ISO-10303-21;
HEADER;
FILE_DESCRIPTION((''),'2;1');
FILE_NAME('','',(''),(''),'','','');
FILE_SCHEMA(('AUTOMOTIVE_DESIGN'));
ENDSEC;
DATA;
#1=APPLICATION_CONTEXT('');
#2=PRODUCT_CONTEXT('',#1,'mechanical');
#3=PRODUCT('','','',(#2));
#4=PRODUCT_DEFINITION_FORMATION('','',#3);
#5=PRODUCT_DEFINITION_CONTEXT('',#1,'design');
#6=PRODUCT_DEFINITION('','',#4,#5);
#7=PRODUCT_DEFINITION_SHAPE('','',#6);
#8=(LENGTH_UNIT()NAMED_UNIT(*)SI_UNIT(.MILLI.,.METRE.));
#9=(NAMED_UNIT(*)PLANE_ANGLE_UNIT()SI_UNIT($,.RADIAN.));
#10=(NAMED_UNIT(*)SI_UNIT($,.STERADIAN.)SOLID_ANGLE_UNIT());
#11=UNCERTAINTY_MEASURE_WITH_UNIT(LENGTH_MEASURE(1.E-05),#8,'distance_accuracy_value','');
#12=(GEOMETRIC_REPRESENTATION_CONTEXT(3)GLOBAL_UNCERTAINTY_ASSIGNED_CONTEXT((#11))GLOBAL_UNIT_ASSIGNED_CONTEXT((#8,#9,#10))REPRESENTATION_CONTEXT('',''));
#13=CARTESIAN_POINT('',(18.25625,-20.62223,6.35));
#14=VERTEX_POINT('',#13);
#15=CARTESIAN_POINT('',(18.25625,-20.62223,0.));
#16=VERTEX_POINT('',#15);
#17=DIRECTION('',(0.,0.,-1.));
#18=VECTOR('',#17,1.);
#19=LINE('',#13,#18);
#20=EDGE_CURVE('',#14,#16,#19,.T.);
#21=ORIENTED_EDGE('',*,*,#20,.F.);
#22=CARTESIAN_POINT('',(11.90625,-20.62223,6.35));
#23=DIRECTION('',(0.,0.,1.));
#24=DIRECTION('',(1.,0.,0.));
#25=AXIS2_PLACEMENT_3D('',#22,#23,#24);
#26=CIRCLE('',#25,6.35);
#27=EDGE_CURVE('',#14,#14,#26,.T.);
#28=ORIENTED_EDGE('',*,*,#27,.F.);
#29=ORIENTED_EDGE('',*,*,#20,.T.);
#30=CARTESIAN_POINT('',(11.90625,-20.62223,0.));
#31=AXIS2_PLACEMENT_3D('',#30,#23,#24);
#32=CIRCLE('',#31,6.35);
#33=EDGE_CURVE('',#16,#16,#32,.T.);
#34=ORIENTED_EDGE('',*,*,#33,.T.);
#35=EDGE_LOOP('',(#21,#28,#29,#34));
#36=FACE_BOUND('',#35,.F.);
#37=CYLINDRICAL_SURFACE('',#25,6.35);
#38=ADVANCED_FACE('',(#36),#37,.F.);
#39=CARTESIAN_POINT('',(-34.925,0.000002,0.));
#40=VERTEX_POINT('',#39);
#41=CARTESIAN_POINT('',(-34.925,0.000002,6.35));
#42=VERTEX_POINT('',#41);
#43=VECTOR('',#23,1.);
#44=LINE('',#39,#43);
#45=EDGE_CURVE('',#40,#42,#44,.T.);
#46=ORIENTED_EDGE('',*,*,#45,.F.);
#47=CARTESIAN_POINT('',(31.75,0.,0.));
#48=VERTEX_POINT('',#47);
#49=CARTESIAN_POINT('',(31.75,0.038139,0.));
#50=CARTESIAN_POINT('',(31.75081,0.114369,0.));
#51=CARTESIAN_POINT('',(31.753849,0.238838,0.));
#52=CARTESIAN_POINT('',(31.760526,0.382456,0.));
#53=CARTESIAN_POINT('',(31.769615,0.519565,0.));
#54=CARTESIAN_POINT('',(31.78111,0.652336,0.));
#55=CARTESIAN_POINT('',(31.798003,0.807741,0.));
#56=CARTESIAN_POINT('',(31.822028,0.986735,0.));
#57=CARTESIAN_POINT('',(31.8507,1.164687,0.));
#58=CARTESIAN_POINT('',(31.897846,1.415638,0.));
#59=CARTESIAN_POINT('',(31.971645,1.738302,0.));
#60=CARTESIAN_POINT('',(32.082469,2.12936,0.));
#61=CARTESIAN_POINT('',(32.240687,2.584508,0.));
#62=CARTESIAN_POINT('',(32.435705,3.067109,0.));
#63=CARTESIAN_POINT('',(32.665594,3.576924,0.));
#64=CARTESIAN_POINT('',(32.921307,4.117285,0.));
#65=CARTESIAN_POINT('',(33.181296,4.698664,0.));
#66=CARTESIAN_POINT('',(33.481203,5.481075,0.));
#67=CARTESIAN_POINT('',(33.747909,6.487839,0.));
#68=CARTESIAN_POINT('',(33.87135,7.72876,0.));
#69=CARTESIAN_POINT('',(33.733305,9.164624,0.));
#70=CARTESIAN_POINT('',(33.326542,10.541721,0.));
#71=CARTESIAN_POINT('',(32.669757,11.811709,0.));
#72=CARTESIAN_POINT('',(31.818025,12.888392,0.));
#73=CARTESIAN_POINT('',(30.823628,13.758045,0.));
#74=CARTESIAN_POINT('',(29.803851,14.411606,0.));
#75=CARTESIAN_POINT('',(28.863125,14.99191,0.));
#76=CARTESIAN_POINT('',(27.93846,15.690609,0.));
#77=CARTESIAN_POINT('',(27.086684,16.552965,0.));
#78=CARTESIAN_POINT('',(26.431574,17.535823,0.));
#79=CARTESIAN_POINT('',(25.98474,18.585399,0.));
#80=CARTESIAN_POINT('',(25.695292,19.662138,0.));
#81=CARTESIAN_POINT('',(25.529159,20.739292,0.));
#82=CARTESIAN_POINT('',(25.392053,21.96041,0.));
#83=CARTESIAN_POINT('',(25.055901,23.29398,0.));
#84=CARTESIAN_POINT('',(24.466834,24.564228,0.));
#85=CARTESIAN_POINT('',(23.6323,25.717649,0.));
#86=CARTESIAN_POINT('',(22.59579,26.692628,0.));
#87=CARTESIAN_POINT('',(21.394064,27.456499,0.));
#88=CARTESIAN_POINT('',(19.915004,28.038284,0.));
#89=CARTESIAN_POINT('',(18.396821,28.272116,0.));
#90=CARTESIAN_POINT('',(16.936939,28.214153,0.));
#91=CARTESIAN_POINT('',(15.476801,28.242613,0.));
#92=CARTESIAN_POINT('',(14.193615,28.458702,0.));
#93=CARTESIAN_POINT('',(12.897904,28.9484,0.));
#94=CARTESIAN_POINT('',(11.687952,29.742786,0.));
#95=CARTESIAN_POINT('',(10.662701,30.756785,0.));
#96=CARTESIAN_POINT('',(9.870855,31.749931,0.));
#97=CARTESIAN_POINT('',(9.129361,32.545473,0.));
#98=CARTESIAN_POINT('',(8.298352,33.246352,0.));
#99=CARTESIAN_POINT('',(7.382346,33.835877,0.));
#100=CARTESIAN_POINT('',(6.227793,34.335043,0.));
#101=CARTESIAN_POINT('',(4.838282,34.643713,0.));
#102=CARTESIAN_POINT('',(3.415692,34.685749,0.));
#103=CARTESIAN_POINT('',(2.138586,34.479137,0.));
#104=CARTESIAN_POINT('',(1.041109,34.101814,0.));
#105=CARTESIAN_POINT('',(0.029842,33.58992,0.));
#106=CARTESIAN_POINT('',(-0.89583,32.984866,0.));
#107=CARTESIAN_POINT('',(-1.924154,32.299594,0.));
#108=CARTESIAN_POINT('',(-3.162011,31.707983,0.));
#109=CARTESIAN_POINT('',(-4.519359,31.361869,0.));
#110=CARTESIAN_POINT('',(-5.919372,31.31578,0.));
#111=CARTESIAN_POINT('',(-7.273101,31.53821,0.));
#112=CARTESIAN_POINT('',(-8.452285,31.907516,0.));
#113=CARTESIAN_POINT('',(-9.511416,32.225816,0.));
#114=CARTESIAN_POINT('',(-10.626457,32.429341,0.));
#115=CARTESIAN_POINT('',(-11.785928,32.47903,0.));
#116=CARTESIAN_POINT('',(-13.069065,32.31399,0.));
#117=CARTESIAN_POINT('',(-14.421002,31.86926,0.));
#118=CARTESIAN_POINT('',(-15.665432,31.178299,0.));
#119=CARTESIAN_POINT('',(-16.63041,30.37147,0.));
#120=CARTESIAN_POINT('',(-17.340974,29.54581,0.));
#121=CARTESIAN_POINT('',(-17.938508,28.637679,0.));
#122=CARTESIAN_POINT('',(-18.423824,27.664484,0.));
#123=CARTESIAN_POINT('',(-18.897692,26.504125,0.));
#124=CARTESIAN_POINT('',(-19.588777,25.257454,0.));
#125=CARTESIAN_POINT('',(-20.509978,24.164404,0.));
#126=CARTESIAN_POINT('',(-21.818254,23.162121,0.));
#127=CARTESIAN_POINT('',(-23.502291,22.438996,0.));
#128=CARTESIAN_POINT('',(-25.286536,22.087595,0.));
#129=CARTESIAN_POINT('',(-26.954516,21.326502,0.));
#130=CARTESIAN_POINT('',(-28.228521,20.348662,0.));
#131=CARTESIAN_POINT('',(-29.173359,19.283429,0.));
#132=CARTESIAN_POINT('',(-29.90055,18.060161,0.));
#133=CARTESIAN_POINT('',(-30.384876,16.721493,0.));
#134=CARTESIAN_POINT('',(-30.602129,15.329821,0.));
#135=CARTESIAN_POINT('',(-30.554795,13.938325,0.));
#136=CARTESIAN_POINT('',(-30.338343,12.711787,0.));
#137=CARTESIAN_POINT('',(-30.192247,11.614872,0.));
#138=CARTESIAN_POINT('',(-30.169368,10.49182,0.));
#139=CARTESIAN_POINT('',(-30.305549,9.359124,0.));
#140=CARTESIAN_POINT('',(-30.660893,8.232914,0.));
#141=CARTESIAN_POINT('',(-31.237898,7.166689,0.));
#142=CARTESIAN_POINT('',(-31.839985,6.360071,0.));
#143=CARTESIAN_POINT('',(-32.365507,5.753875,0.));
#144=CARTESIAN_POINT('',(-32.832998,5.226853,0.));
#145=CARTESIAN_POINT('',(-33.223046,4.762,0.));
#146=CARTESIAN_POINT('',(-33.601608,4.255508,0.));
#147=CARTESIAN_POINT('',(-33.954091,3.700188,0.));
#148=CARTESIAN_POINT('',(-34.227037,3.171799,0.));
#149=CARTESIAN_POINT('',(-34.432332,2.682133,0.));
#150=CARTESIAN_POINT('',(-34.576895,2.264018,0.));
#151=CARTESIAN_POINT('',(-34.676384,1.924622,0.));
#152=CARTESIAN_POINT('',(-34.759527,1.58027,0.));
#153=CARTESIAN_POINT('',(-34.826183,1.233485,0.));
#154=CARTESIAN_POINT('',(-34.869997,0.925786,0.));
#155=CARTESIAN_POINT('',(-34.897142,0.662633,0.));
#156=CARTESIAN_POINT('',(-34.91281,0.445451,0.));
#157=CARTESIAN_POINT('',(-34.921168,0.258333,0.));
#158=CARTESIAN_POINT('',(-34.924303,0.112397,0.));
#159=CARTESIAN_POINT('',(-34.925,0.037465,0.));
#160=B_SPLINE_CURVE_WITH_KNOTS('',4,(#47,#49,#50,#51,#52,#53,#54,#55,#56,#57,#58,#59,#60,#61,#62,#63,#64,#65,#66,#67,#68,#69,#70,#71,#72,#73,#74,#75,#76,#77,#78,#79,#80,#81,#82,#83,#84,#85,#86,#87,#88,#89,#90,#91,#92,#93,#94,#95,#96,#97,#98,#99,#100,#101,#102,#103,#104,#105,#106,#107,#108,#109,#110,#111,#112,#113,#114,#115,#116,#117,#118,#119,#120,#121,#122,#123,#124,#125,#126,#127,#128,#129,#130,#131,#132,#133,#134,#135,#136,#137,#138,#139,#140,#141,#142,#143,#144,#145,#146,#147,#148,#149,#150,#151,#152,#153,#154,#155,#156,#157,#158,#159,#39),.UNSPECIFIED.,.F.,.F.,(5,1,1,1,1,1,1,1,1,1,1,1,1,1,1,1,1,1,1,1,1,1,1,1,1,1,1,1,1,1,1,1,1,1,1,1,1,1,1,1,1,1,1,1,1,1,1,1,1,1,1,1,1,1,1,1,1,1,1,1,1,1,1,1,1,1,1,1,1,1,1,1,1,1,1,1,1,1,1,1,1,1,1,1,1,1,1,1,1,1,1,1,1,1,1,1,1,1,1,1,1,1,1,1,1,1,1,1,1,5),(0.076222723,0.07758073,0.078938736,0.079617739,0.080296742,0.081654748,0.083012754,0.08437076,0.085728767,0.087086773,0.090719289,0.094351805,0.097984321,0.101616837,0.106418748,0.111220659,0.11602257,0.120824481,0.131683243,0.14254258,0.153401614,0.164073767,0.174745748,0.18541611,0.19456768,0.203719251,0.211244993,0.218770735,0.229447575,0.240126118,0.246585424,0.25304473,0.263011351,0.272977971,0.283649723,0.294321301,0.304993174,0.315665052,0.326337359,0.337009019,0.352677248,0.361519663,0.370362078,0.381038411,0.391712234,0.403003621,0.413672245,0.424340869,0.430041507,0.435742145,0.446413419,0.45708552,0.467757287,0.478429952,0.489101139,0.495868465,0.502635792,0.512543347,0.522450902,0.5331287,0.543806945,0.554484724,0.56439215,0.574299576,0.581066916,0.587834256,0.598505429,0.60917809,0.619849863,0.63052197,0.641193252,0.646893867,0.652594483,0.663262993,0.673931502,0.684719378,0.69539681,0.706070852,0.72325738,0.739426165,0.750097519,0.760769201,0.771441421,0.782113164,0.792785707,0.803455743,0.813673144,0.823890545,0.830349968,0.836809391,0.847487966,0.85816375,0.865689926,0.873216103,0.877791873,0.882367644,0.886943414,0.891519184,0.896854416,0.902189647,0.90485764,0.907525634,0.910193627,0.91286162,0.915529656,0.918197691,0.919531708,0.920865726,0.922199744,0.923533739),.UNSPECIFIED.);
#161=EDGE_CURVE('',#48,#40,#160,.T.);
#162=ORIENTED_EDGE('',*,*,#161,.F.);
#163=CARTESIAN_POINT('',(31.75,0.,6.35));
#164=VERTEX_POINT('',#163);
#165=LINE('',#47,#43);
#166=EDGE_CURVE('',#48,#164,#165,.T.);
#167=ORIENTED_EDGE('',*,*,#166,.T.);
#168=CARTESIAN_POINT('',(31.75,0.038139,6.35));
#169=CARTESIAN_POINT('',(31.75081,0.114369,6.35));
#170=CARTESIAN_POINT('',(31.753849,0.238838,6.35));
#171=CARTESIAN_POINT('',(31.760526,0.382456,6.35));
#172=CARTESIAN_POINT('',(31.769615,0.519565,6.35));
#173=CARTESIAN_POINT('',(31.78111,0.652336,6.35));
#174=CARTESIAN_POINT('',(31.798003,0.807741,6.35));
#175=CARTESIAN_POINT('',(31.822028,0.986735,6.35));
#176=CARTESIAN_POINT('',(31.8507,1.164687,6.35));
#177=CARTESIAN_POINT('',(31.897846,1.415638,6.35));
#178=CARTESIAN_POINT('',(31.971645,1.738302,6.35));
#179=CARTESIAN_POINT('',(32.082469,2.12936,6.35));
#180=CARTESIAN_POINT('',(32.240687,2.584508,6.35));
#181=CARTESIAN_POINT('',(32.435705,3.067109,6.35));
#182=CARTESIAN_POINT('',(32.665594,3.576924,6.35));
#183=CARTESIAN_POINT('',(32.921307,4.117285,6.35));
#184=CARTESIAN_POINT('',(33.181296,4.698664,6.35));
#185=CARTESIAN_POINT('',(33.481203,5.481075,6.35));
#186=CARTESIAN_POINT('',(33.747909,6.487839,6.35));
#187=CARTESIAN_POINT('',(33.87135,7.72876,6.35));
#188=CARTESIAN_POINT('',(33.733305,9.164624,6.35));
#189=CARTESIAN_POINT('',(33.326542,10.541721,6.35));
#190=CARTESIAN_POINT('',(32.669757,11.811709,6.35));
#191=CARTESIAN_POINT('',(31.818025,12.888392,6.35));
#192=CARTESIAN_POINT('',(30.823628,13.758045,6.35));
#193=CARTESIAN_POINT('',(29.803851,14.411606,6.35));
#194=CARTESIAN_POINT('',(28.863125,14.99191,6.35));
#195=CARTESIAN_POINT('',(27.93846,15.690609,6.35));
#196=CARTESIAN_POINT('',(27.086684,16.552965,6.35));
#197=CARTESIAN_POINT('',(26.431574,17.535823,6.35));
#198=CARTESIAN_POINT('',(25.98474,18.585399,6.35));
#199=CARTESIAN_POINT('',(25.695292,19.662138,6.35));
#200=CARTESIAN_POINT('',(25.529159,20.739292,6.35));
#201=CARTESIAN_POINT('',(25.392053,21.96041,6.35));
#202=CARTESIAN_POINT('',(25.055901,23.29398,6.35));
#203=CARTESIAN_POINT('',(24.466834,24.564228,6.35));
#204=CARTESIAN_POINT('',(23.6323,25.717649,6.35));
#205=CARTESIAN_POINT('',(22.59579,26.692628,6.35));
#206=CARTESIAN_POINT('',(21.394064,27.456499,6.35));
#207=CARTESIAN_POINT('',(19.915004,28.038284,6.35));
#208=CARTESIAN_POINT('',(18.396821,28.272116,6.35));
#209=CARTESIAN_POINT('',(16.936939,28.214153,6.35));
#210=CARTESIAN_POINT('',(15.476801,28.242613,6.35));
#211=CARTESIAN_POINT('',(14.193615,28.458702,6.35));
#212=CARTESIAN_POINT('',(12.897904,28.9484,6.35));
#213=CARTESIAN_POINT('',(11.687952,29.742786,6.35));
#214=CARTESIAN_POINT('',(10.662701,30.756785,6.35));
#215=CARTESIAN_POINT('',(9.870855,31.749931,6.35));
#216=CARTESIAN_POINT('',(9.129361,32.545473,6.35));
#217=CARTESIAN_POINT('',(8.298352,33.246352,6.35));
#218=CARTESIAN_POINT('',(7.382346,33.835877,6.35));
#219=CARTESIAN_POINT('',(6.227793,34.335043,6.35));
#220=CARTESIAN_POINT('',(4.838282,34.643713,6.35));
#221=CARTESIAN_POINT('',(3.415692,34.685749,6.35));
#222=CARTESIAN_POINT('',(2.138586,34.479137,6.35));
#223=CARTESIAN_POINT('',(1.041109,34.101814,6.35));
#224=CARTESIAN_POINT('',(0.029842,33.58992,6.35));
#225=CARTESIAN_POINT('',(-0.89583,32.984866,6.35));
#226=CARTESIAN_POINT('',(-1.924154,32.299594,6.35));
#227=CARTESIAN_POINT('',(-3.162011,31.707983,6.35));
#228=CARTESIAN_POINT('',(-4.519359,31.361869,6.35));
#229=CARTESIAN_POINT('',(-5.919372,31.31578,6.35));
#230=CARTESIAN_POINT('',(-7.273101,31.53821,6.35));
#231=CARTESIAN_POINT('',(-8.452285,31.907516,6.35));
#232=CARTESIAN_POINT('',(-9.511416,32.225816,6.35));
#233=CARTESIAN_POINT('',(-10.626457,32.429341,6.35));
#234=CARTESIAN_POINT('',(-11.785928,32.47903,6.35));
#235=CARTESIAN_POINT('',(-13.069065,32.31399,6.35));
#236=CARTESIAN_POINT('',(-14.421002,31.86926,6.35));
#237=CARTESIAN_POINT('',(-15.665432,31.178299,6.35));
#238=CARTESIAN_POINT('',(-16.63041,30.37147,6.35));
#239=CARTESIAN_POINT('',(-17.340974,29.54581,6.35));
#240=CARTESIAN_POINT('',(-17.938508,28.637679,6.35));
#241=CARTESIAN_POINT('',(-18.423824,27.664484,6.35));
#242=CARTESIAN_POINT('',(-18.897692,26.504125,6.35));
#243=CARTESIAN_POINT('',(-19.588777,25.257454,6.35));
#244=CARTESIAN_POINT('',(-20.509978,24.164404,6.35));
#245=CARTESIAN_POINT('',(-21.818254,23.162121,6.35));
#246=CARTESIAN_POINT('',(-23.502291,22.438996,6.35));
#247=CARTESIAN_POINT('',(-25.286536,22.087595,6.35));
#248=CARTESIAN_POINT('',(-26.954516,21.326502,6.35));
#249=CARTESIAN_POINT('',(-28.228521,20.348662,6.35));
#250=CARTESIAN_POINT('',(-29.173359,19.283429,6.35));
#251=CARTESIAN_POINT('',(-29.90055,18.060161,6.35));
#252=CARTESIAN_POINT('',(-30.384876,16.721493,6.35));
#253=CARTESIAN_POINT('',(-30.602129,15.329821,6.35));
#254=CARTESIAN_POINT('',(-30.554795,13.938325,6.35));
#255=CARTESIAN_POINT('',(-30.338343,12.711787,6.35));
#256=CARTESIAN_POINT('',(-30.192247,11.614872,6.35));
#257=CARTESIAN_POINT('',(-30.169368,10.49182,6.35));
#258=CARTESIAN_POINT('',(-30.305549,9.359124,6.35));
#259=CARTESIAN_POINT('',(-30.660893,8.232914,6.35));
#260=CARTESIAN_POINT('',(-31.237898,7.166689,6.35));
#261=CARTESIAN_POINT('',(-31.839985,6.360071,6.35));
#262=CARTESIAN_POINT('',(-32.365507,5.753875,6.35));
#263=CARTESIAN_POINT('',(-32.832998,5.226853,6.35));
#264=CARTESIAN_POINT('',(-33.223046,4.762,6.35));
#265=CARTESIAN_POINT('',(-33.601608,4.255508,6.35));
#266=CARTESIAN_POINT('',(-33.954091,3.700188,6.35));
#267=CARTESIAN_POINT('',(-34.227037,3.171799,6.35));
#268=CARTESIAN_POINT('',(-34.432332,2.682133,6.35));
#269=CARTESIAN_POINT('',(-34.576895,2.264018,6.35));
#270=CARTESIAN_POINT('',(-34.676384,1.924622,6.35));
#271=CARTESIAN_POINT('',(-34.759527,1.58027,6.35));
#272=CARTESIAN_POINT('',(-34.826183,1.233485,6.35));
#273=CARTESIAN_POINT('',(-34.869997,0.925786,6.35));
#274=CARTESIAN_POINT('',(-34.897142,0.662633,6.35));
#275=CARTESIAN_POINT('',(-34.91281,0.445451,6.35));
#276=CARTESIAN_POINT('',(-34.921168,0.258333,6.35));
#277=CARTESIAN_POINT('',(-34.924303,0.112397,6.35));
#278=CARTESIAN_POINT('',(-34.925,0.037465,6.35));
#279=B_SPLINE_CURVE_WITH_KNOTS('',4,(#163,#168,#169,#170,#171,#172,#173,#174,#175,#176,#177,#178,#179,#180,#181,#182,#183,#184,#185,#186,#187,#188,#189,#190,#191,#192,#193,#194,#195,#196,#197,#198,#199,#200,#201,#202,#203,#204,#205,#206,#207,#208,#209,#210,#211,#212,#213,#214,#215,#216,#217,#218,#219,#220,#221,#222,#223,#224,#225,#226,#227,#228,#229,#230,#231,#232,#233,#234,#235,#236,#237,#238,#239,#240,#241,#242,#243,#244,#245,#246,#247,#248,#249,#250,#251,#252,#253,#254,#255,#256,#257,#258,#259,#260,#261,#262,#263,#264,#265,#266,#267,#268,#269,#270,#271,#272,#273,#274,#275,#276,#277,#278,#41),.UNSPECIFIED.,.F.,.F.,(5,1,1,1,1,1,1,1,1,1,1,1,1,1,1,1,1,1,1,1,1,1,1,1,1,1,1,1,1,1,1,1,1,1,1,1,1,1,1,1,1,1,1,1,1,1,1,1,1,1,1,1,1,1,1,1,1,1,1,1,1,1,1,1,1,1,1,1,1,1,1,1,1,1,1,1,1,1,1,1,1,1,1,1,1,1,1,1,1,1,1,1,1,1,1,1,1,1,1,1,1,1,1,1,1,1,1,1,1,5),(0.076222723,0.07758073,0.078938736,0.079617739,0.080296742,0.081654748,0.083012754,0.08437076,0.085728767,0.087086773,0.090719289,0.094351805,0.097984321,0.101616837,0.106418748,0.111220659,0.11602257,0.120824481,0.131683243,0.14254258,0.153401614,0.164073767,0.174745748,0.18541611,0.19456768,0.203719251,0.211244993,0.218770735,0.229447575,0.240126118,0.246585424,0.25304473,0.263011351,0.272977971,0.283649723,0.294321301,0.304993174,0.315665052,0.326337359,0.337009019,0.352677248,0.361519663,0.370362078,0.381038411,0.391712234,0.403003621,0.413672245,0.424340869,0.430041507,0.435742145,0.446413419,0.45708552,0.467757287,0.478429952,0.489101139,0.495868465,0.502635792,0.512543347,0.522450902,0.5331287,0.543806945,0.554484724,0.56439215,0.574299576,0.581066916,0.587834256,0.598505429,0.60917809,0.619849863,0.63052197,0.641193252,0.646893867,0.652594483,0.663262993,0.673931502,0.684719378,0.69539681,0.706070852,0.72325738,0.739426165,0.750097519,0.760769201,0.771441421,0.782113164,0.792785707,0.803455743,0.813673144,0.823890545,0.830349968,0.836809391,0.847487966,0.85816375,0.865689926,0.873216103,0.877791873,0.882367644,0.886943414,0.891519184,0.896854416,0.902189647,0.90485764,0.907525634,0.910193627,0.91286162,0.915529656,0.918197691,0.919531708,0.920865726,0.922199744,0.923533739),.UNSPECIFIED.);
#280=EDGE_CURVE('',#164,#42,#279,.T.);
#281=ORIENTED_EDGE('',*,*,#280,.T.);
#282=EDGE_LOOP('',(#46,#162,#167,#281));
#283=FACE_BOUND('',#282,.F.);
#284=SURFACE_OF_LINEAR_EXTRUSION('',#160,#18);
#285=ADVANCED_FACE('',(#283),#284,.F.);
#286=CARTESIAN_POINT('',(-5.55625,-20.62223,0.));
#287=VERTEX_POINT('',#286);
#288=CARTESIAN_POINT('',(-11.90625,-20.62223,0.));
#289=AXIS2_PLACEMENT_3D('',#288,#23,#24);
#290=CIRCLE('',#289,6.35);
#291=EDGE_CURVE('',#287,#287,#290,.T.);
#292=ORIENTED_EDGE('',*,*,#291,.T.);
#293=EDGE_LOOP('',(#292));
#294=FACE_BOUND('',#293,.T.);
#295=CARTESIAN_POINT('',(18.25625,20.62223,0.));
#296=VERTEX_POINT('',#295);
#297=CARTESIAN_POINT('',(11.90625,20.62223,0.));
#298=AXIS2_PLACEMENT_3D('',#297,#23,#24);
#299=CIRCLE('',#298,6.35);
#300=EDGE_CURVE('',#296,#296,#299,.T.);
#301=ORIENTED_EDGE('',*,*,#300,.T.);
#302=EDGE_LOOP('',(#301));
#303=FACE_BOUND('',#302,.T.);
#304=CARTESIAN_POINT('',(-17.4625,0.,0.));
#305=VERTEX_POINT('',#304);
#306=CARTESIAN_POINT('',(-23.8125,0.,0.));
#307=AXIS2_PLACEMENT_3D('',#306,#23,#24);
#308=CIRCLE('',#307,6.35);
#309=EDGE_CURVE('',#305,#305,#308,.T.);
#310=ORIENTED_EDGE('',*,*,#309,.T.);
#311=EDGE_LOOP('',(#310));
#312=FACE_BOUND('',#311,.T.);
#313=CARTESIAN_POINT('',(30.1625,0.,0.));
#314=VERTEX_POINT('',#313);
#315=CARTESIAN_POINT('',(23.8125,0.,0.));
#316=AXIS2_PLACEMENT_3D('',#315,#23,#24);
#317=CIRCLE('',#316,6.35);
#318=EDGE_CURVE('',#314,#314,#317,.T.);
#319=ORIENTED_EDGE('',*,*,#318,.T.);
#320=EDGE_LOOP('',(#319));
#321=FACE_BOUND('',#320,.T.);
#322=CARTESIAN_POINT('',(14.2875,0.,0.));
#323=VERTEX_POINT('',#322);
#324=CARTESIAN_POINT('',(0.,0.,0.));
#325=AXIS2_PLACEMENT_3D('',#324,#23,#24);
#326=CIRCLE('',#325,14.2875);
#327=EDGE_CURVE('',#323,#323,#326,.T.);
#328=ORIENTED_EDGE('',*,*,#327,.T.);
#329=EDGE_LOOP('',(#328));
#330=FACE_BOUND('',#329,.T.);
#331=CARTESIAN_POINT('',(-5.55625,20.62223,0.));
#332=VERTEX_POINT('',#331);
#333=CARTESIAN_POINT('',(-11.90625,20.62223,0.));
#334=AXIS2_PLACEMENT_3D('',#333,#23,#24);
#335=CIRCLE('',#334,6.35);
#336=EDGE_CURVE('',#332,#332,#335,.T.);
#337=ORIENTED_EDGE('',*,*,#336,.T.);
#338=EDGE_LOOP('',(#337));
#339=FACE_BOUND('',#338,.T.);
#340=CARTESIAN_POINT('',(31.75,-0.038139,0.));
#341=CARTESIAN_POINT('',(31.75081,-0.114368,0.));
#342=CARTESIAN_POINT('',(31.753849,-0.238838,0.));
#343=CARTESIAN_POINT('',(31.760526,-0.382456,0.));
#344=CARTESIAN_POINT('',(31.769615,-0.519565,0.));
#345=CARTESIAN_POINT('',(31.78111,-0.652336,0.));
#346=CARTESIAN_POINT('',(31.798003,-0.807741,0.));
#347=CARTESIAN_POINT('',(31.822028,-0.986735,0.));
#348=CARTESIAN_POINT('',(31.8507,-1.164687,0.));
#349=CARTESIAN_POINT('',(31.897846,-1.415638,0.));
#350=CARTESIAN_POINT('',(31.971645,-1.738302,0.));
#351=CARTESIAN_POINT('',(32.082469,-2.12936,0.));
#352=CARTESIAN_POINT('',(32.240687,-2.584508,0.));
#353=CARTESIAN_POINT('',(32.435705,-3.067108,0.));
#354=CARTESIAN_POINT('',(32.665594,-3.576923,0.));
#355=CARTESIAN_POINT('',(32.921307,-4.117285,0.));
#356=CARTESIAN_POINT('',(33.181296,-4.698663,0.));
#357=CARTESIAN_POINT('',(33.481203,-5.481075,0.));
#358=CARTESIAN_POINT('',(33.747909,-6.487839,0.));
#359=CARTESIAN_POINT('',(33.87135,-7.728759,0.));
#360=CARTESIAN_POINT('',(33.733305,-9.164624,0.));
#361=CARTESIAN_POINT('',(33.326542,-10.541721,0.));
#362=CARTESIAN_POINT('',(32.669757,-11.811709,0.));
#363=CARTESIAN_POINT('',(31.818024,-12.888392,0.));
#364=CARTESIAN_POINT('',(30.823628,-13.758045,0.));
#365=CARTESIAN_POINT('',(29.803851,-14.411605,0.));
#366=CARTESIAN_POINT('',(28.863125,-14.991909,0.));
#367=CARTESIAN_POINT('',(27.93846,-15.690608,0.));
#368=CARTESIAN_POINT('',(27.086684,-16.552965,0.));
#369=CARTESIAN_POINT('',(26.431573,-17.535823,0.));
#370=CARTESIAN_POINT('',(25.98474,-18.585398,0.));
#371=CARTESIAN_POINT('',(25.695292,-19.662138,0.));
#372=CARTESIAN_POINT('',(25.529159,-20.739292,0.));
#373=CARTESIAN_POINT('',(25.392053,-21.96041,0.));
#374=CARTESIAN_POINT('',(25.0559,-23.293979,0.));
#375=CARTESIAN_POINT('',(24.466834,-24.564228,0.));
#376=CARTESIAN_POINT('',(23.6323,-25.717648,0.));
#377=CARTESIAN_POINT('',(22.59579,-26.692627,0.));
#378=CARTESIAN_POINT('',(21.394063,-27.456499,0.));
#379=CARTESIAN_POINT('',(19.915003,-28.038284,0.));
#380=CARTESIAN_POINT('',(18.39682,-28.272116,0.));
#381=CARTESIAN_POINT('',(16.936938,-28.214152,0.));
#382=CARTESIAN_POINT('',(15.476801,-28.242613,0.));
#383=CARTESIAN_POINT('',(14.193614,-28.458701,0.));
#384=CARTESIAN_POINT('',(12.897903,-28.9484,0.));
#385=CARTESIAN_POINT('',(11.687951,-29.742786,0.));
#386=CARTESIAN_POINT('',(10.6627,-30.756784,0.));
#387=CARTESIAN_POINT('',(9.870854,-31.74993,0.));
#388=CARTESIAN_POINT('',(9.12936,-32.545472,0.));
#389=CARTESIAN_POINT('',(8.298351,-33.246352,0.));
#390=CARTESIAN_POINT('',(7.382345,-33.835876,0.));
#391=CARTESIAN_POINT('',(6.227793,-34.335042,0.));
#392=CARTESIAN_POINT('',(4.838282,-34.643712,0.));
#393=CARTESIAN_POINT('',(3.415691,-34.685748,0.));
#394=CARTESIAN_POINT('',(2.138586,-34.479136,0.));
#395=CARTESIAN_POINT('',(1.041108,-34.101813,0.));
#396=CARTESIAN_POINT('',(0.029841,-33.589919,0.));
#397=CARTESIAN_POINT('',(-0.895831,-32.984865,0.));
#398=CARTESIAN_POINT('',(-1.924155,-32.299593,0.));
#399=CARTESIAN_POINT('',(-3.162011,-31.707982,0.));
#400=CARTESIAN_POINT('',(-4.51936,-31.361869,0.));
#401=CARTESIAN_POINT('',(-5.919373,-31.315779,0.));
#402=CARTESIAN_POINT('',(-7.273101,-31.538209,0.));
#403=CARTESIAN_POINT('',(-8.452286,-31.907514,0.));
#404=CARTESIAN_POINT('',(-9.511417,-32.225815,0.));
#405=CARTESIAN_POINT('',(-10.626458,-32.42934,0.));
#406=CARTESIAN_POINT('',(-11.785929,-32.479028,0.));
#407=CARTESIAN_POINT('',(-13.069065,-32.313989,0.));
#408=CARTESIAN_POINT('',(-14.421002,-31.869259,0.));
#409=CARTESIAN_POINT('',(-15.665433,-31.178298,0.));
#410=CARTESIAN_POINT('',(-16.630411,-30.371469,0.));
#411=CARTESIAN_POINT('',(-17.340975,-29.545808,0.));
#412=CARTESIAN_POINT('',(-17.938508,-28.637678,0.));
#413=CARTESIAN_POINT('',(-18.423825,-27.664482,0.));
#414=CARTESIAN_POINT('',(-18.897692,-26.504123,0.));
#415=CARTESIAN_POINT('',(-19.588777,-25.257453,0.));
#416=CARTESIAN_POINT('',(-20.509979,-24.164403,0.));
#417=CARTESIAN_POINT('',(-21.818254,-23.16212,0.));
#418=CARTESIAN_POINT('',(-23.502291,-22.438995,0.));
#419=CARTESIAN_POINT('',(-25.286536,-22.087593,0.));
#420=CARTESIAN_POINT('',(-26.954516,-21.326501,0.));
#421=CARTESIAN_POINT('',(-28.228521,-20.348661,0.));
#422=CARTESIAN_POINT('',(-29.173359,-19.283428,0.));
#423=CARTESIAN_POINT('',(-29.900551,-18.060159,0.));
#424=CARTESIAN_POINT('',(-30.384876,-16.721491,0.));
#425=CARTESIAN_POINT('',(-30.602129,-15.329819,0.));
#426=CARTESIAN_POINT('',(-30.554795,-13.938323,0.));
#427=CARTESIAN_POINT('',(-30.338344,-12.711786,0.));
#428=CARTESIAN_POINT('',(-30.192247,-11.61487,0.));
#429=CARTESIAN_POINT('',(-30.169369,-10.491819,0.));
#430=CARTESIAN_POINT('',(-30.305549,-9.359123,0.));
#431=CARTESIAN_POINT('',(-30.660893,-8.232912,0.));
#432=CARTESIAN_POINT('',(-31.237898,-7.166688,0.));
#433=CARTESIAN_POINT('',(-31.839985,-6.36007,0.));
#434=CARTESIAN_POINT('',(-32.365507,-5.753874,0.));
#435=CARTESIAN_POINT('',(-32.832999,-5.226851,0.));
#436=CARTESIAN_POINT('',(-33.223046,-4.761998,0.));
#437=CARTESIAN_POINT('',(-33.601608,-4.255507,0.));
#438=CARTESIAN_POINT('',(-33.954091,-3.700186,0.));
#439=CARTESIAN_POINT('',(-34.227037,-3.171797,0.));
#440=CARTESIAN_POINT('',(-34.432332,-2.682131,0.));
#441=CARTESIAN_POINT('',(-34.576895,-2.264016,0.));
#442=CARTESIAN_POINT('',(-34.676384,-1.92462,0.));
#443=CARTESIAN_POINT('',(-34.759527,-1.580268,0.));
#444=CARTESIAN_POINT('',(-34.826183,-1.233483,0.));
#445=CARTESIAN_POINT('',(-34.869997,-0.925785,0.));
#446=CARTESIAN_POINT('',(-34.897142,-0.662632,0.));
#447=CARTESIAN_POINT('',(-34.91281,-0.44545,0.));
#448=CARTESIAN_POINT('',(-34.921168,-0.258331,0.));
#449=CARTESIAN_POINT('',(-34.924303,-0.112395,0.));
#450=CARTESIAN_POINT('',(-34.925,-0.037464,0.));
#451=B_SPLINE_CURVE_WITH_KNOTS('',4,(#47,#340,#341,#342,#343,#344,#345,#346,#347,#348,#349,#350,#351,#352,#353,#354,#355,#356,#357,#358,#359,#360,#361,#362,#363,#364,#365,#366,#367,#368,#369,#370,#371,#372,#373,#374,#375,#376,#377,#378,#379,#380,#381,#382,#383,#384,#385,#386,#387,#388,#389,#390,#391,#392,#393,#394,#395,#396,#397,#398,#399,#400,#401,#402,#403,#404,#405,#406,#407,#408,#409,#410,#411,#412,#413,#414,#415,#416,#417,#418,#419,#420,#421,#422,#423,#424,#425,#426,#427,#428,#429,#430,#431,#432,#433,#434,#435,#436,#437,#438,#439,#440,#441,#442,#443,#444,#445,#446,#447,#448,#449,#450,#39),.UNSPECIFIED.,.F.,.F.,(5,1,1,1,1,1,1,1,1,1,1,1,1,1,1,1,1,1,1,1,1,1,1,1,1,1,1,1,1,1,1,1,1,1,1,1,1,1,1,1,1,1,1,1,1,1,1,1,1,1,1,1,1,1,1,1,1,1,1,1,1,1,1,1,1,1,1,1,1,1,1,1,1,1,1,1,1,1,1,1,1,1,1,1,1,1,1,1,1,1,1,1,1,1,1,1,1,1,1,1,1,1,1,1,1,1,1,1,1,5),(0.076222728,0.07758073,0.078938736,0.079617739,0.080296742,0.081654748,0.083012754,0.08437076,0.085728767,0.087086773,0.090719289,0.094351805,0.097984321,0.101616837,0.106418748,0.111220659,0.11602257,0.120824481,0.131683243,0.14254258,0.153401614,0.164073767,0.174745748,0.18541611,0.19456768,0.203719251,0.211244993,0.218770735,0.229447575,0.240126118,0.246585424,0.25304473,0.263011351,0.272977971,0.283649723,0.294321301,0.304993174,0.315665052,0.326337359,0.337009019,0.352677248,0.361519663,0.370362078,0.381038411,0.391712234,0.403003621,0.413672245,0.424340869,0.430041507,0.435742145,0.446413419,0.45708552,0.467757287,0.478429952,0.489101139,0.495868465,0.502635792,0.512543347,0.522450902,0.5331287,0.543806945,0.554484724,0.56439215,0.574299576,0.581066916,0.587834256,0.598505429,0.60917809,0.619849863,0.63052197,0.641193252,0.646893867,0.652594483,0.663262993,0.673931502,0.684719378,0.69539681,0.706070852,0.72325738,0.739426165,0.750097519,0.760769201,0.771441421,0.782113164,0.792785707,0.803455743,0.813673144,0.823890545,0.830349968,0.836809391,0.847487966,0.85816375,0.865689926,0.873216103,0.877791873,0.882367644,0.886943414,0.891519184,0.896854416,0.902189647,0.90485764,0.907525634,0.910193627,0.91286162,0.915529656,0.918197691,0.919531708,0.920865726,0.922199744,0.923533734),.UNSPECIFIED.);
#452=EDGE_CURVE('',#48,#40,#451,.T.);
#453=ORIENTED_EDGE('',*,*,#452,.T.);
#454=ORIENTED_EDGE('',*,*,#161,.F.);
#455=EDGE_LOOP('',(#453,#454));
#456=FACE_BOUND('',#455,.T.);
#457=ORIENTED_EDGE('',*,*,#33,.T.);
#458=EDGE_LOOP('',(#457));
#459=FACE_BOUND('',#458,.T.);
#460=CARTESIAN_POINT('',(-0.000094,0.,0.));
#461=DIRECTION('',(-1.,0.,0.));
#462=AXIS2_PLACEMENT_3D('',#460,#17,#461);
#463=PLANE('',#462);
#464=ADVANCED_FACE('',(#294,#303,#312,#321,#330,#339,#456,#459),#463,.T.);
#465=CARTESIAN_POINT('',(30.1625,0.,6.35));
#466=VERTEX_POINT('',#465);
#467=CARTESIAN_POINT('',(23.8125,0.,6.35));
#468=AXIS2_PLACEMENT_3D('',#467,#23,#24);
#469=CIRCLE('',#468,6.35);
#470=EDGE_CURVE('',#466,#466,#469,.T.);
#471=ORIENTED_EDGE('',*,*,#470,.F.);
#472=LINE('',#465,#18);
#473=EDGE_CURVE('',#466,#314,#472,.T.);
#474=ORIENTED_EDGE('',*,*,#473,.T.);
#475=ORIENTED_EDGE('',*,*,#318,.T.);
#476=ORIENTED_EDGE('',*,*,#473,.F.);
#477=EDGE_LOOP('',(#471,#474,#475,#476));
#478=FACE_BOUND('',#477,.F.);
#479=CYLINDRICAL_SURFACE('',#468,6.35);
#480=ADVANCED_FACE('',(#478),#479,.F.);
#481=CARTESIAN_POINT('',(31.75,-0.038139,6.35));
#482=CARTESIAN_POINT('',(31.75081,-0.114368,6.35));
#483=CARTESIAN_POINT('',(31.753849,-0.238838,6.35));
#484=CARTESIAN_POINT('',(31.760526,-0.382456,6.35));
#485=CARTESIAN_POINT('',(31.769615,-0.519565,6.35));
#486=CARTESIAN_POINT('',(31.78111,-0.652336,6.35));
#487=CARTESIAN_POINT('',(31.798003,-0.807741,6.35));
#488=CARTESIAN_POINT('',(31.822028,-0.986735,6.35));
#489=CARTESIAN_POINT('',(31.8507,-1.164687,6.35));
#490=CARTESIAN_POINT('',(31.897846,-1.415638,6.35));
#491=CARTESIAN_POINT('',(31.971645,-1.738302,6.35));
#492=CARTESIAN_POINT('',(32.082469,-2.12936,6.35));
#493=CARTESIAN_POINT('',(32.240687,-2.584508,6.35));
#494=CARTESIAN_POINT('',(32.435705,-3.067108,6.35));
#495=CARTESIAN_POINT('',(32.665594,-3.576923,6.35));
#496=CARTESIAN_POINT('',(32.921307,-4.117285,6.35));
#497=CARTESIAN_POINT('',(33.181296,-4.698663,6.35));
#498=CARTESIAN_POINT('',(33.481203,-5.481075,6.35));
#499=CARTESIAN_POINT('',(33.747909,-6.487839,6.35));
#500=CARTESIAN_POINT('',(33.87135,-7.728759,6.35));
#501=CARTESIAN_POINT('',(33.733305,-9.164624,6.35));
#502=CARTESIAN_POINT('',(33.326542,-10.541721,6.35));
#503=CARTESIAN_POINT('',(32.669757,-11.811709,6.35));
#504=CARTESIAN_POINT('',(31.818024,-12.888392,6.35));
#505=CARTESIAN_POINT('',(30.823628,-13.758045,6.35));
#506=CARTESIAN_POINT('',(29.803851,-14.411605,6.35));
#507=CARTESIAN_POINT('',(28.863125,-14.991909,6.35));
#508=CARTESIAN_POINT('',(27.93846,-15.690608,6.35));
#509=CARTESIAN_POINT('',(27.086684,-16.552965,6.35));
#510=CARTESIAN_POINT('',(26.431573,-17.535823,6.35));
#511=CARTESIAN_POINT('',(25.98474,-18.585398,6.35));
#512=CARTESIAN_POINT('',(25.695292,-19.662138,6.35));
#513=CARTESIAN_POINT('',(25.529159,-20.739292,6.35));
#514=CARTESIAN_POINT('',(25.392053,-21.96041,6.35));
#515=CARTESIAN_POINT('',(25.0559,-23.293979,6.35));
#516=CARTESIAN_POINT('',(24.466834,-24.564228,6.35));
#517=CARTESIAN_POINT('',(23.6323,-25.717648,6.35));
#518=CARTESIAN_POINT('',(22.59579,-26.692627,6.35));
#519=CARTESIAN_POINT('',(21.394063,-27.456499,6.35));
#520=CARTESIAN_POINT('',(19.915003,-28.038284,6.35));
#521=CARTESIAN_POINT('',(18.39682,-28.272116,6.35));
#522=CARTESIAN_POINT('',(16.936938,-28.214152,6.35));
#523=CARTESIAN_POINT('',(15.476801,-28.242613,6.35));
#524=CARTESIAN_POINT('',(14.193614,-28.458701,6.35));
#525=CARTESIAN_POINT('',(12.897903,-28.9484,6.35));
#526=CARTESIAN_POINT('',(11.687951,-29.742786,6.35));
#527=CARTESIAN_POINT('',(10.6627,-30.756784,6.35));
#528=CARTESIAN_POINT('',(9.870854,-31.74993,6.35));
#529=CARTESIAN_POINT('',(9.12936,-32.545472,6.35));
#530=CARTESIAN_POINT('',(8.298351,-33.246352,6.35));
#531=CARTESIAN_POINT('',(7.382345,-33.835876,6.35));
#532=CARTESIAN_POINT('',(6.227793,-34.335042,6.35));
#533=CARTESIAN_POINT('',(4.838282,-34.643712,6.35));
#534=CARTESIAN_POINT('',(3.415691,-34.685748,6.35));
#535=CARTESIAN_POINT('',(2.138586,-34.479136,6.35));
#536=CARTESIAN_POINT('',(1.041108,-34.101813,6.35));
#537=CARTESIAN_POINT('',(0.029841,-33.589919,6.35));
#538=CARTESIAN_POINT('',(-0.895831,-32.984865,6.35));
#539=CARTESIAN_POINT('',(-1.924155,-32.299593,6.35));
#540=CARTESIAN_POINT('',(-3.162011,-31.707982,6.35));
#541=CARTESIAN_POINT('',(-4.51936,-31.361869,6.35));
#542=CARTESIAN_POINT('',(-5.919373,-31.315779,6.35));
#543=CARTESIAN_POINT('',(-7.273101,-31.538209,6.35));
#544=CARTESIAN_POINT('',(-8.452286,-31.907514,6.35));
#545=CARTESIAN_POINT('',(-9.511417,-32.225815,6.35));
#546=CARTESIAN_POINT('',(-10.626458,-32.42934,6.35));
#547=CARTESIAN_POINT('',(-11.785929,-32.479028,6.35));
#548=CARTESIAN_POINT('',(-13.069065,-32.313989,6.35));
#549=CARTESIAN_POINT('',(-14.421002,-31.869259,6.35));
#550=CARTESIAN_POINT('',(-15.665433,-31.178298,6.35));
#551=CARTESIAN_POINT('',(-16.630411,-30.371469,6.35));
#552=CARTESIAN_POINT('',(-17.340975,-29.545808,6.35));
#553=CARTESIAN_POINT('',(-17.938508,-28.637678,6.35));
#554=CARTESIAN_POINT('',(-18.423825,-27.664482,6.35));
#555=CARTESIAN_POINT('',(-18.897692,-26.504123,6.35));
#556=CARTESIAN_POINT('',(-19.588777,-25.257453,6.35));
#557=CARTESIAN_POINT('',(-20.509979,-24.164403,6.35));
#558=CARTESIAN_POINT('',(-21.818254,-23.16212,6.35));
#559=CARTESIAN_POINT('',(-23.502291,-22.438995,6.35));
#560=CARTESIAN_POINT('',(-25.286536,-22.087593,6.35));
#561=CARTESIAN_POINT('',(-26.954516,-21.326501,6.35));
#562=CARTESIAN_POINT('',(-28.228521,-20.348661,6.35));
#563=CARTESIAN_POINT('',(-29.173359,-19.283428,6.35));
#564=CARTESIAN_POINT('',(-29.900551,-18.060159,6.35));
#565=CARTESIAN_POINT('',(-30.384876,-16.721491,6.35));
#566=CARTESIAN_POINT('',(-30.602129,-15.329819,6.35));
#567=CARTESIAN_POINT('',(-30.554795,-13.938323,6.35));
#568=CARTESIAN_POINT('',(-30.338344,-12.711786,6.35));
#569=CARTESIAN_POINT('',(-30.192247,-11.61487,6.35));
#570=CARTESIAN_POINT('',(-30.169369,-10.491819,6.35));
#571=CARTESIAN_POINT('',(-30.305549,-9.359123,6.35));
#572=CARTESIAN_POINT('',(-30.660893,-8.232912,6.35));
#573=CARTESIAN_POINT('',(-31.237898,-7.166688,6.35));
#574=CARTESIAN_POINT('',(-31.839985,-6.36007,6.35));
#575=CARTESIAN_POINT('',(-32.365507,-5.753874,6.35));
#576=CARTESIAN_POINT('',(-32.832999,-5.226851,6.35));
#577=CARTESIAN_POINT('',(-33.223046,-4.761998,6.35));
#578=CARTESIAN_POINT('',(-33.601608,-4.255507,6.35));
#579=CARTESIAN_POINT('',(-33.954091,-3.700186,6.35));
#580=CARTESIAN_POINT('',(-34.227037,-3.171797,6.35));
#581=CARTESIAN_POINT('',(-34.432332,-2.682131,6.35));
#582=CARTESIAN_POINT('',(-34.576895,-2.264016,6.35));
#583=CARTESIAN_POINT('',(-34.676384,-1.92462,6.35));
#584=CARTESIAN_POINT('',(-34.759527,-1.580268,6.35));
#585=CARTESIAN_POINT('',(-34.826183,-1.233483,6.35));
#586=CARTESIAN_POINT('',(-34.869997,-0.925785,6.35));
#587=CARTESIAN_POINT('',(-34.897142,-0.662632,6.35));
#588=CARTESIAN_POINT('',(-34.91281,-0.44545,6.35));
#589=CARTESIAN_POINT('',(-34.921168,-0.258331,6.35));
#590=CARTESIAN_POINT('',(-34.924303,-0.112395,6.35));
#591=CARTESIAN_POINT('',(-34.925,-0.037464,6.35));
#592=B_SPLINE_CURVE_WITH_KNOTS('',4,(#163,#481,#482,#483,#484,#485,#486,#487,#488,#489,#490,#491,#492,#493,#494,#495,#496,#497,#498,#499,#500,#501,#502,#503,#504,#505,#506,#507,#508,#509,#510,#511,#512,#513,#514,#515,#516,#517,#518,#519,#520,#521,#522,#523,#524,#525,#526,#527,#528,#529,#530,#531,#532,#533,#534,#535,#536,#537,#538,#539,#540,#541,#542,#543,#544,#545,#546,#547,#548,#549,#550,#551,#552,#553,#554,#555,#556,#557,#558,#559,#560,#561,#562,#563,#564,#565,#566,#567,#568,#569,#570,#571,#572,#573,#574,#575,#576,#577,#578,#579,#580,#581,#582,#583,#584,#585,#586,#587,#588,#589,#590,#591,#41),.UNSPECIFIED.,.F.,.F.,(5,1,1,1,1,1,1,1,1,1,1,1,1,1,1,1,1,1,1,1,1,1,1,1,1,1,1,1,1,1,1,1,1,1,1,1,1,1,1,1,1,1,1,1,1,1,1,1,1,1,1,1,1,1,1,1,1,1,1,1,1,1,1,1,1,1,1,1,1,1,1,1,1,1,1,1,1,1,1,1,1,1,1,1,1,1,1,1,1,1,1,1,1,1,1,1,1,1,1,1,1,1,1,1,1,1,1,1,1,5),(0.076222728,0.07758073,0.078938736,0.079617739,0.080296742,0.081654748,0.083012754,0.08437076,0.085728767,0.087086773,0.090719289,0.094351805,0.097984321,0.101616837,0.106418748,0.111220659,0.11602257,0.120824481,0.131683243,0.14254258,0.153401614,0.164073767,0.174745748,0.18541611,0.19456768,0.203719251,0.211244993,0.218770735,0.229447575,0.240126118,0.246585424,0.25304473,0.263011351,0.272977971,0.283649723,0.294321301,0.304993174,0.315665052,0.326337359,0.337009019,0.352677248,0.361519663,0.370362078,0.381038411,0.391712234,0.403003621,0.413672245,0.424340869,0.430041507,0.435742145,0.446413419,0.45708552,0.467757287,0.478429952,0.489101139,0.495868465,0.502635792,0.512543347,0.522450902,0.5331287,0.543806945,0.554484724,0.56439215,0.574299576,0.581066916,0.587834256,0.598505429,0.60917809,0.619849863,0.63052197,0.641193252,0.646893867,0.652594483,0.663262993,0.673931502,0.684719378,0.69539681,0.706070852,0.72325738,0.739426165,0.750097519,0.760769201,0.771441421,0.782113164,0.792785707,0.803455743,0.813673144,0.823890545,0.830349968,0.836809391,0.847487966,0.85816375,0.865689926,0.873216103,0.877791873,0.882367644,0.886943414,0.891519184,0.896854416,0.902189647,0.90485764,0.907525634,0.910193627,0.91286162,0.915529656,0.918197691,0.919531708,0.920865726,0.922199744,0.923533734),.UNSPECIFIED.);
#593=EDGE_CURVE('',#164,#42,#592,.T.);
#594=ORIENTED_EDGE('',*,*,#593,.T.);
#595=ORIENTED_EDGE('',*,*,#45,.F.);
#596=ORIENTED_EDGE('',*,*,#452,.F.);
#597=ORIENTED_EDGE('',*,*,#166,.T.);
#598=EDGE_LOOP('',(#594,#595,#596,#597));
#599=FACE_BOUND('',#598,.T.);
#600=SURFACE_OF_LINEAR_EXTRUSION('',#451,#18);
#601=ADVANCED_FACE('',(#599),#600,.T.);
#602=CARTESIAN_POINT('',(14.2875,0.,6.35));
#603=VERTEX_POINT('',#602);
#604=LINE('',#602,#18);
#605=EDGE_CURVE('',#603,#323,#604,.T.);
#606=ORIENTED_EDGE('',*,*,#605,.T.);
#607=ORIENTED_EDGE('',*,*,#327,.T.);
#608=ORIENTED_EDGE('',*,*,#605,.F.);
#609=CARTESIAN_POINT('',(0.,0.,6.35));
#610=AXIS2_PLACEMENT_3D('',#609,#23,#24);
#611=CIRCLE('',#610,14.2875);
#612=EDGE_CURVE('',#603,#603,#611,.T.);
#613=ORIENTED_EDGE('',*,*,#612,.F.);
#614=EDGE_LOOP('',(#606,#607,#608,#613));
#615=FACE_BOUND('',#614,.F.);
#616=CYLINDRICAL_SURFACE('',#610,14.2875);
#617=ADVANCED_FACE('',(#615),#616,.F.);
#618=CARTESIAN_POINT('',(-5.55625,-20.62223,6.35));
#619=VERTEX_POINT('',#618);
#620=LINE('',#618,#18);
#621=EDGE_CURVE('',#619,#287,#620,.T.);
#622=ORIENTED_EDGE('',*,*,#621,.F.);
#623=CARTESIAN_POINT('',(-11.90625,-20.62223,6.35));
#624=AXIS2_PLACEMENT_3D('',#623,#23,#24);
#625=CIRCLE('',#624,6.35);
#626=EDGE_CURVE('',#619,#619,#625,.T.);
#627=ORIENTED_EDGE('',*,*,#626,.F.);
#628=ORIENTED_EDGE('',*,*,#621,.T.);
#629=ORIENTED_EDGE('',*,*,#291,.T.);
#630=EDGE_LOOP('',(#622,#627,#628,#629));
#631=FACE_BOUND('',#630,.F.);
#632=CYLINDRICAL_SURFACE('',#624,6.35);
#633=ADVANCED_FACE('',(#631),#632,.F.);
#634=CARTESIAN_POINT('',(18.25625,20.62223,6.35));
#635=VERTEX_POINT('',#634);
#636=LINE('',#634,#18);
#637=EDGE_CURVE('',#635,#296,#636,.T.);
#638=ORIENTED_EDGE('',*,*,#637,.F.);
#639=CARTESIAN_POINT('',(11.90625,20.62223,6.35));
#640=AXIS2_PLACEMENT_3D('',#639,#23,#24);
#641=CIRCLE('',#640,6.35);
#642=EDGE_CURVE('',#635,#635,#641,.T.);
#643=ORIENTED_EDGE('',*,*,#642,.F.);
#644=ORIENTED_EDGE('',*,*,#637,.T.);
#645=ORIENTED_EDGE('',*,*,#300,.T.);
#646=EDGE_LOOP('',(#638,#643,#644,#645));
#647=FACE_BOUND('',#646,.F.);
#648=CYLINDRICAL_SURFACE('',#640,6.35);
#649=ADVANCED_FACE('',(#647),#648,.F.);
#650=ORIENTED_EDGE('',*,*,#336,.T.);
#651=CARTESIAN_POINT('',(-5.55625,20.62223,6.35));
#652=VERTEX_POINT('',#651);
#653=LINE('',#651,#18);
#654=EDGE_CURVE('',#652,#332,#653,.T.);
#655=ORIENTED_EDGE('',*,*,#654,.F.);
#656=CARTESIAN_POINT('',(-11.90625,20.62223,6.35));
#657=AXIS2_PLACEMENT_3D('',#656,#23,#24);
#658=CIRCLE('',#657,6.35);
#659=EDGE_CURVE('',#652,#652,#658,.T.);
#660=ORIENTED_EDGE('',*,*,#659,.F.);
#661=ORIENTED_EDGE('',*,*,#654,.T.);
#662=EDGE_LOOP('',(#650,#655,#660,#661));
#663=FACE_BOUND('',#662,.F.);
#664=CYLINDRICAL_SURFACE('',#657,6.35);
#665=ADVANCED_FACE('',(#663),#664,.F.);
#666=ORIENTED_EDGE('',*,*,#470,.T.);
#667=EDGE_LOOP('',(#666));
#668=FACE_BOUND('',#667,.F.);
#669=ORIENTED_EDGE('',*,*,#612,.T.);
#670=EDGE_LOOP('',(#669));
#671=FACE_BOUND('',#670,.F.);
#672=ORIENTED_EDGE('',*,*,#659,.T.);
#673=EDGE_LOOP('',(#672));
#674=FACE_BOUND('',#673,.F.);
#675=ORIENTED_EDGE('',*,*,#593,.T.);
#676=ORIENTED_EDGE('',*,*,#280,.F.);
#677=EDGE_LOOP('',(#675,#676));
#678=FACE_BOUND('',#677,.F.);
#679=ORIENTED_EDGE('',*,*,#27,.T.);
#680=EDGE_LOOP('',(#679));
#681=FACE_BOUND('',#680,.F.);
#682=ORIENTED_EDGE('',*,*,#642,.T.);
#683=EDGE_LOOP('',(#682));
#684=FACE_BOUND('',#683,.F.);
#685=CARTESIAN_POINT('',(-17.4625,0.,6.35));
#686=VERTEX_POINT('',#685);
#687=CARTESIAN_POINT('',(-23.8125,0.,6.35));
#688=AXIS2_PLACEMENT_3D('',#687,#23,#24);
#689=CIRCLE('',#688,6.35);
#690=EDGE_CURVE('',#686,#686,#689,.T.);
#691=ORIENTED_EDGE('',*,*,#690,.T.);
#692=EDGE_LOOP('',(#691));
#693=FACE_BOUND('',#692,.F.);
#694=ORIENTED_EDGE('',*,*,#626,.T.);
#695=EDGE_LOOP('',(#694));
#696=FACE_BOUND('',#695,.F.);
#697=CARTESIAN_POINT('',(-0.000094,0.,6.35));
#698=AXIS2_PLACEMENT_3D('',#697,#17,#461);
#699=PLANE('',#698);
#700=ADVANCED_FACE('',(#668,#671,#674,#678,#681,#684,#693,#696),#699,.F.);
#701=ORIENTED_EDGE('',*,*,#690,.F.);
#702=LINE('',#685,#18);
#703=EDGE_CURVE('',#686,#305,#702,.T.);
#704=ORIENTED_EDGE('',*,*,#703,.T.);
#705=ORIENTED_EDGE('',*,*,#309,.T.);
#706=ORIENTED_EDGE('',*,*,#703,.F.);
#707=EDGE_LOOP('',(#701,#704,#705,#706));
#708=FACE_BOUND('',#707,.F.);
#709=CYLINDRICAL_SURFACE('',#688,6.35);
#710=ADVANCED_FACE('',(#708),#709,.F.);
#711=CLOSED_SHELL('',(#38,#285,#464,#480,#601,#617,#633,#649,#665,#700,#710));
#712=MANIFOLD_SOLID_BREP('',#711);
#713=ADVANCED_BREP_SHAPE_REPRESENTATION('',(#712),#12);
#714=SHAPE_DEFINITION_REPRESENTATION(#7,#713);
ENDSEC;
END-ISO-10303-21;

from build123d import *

# Parameters (mm, degrees)
MAIN_PROFILE_DEPTH = 6.35
SKETCH4_R          = 14.2875
SKETCH4_R_2        = 6.35
CUT_EXTRUDE1_DEPTH = 50.602386466


with BuildPart() as part:
    # Sketch3 → Main Profile (new body)
    with BuildSketch(Plane.XY):
        with BuildLine():
            add(Edge.make_bspline(
                [(31.75, 2.81e-07), (31.75, -0.038138771), (31.750810332, -0.114368264), (31.753849076, -0.238837626), (31.760525509, -0.382455818), (31.769615286, -0.519564523), (31.781109533, -0.652336128), (31.798002594, -0.807740925), (31.822028132, -0.986734635), (31.850700016, -1.164686809), (31.897846423, -1.415637564), (31.971645203, -1.738301952), (32.082469268, -2.129360193), (32.240686958, -2.584508221), (32.435705321, -3.067108271), (32.665594027, -3.576923413), (32.921307313, -4.117284729), (33.181296154, -4.69866334), (33.481203305, -5.481075034), (33.747908546, -6.487838935), (33.871349627, -7.728759397), (33.73330509, -9.164623802), (33.326541508, -10.541721209), (32.669757062, -11.811709211), (31.818024493, -12.88839187), (30.823627825, -13.758045179), (29.803850972, -14.41160519), (28.863124943, -14.991909497), (27.938459683, -15.6906083), (27.086683665, -16.552965023), (26.431573246, -17.535822666), (25.984740003, -18.585398338), (25.695291585, -19.66213801), (25.529158833, -20.739291715), (25.392052795, -21.96040977), (25.05590048, -23.293979323), (24.466833712, -24.564227673), (23.632299814, -25.717648459), (22.595789884, -26.69262707), (21.394063242, -27.456498992), (19.915003335, -28.038283816), (18.396820055, -28.272115609), (16.936938439, -28.214152446), (15.476800928, -28.242612595), (14.193614192, -28.458701253), (12.897903092, -28.948399701), (11.68795127, -29.742785535), (10.662699935, -30.756784477), (9.870854151, -31.74993016), (9.129360193, -32.545471996), (8.298351028, -33.246351695), (7.382345444, -33.835876138), (6.227792799, -34.33504204), (4.838281693, -34.643712395), (3.415691487, -34.685747804), (2.138585694, -34.479135678), (1.041108058, -34.101813017), (0.029840997, -33.589918692), (-0.895830501, -32.984865294), (-1.924155018, -32.299593481), (-3.162011496, -31.707982495), (-4.519359583, -31.361868513), (-5.919373076, -31.315778501), (-7.273101382, -31.53820905), (-8.452285877, -31.907514482), (-9.511416844, -32.225815349), (-10.626457936, -32.429340195), (-11.785928621, -32.479028469), (-13.069065379, -32.31398879), (-14.421002475, -31.869258957), (-15.665432525, -31.178298164), (-16.630410555, -30.371469197), (-17.340974789, -29.545808367), (-17.938508363, -28.637678251), (-18.423824728, -27.664482285), (-18.897692439, -26.50412342), (-19.588777128, -25.257453018), (-20.509978823, -24.164402668), (-21.818254492, -23.162120116), (-23.502291231, -22.43899478), (-25.286536347, -22.087593132), (-26.954516172, -21.326501044), (-28.228521063, -20.348660606), (-29.173358892, -19.283427555), (-29.900550559, -18.060159424), (-30.384876126, -16.721491378), (-30.602129294, -15.329819453), (-30.554794927, -13.938323222), (-30.338343583, -12.711785587), (-30.192247227, -11.614870091), (-30.16936859, -10.491818606), (-30.30554933, -9.35912283), (-30.660892747, -8.232912318), (-31.237897787, -7.166687652), (-31.839984981, -6.360069652), (-32.365507449, -5.753873672), (-32.832998588, -5.226851201), (-33.223046034, -4.761998387), (-33.601608275, -4.255506716), (-33.954091311, -3.700186252), (-34.227037244, -3.171797098), (-34.432331805, -2.682131162), (-34.576895351, -2.26401638), (-34.676384382, -1.924619974), (-34.759527034, -1.580268144), (-34.826183466, -1.233483302), (-34.869996832, -0.925784539), (-34.897142003, -0.662631599), (-34.912809999, -0.44544961), (-34.921168461, -0.258331289), (-34.924303367, -0.112395088), (-34.925000006, -0.037463791), (-34.925, 1.553e-06)],
                knots=[0.076222728, 0.076222728, 0.076222728, 0.076222728, 0.076222728, 0.07758073, 0.078938736, 0.079617739, 0.080296742, 0.081654748, 0.083012754, 0.08437076, 0.085728767, 0.087086773, 0.090719289, 0.094351805, 0.097984321, 0.101616837, 0.106418748, 0.111220659, 0.11602257, 0.120824481, 0.131683243, 0.14254258, 0.153401614, 0.164073767, 0.174745748, 0.18541611, 0.19456768, 0.203719251, 0.211244993, 0.218770735, 0.229447575, 0.240126118, 0.246585424, 0.25304473, 0.263011351, 0.272977971, 0.283649723, 0.294321301, 0.304993174, 0.315665052, 0.326337359, 0.337009019, 0.352677248, 0.361519663, 0.370362078, 0.381038411, 0.391712234, 0.403003621, 0.413672245, 0.424340869, 0.430041507, 0.435742145, 0.446413419, 0.45708552, 0.467757287, 0.478429952, 0.489101139, 0.495868465, 0.502635792, 0.512543347, 0.522450902, 0.5331287, 0.543806945, 0.554484724, 0.56439215, 0.574299576, 0.581066916, 0.587834256, 0.598505429, 0.60917809, 0.619849863, 0.63052197, 0.641193252, 0.646893867, 0.652594483, 0.663262993, 0.673931502, 0.684719378, 0.69539681, 0.706070852, 0.72325738, 0.739426165, 0.750097519, 0.760769201, 0.771441421, 0.782113164, 0.792785707, 0.803455743, 0.813673144, 0.823890545, 0.830349968, 0.836809391, 0.847487966, 0.85816375, 0.865689926, 0.873216103, 0.877791873, 0.882367644, 0.886943414, 0.891519184, 0.896854416, 0.902189647, 0.90485764, 0.907525634, 0.910193627, 0.91286162, 0.915529656, 0.918197691, 0.919531708, 0.920865726, 0.922199744, 0.923533734, 0.923533734, 0.923533734, 0.923533734, 0.923533734], degree=4))
            add(Edge.make_bspline(
                [(31.75, 2.81e-07), (31.750000001, 0.038139052), (31.750810334, 0.114368545), (31.75384908, 0.238837908), (31.760525516, 0.382456099), (31.769615296, 0.519564804), (31.781109545, 0.652336409), (31.798002609, 0.807741205), (31.822028151, 0.986734915), (31.850700038, 1.164687089), (31.89784645, 1.415637843), (31.971645236, 1.738302229), (32.082469308, 2.129360468), (32.240687007, 2.584508493), (32.43570538, 3.067108539), (32.665594095, 3.576923677), (32.921307392, 4.117284988), (33.181296243, 4.698663594), (33.48120341, 5.481075282), (33.74790867, 6.487839178), (33.871349774, 7.728759638), (33.733305265, 9.164624045), (33.326541709, 10.54172146), (32.669757288, 11.811709475), (31.818024739, 12.88839215), (30.823628087, 13.758045478), (29.803851247, 14.411605508), (28.863125229, 14.991909833), (27.938459982, 15.690608654), (27.08668398, 16.552965393), (26.431573581, 17.535823048), (25.984740357, 18.585398729), (25.69529196, 19.662138407), (25.529159228, 20.739292115), (25.392053214, 21.960410173), (25.055900924, 23.293979732), (24.46683418, 24.564228093), (23.632300305, 25.717648895), (22.595790393, 26.692627526), (21.394063766, 27.456499471), (19.91500387, 28.038284323), (18.396820594, 28.272116145), (16.936938977, 28.21415301), (15.476801466, 28.242613187), (14.193614735, 28.458701869), (12.897903644, 28.948400341), (11.687951838, 29.742786198), (10.662700522, 30.75678516), (9.870854756, 31.749930858), (9.129360813, 32.545472708), (8.298351662, 33.246352424), (7.38234609, 33.835876884), (6.227793453, 34.335042808), (4.838282354, 34.64371319), (3.415692149, 34.685748626), (2.138586351, 34.479136524), (1.041108709, 34.101813884), (0.029841637, 33.589919578), (-0.895829872, 32.984866197), (-1.924154402, 32.299594404), (-3.162010891, 31.707983442), (-4.519358985, 31.361869486), (-5.919372479, 31.315779501), (-7.27310078, 31.538210075), (-8.452285269, 31.90751553), (-9.51141623, 32.225816417), (-10.626457318, 32.429341284), (-11.785928001, 32.47902958), (-13.069064763, 32.313989926), (-14.421001867, 31.869260118), (-15.665431931, 31.178299349), (-16.630409975, 30.371470401), (-17.340974225, 29.545809584), (-17.938507817, 28.637679479), (-18.4238242, 27.664483523), (-18.897691934, 26.504124667), (-19.588776647, 25.257454278), (-20.509978362, 24.164403946), (-21.81825405, 23.162121419), (-23.502290803, 22.438996115), (-25.286535925, 22.087594501), (-26.954515766, 21.326502445), (-28.228520675, 20.348662031), (-29.173358524, 19.283428998), (-29.900550215, 18.060160881), (-30.384875808, 16.721492844), (-30.602129002, 15.329820923), (-30.554794662, 13.938324691), (-30.338343341, 12.711787052), (-30.192247005, 11.614871553), (-30.16936839, 10.491820068), (-30.305549151, 9.359124294), (-30.66089259, 8.232913789), (-31.23789765, 7.166689135), (-31.83998486, 6.360071146), (-32.36550734, 5.753875176), (-32.832998489, 5.226852714), (-33.223045943, 4.761999907), (-33.601608193, 4.255508244), (-33.954091241, 3.700187786), (-34.227037183, 3.171798638), (-34.432331754, 2.682132705), (-34.576895308, 2.264017926), (-34.676384346, 1.924621522), (-34.759527004, 1.580269694), (-34.826183443, 1.233484853), (-34.869996815, 0.925786091), (-34.89714199, 0.662633151), (-34.912809991, 0.445451162), (-34.921168456, 0.258332842), (-34.924303365, 0.112396641), (-34.925000006, 0.037465344), (-34.925, 1.553e-06)],
                knots=[0.076222723, 0.076222723, 0.076222723, 0.076222723, 0.076222723, 0.07758073, 0.078938736, 0.079617739, 0.080296742, 0.081654748, 0.083012754, 0.08437076, 0.085728767, 0.087086773, 0.090719289, 0.094351805, 0.097984321, 0.101616837, 0.106418748, 0.111220659, 0.11602257, 0.120824481, 0.131683243, 0.14254258, 0.153401614, 0.164073767, 0.174745748, 0.18541611, 0.19456768, 0.203719251, 0.211244993, 0.218770735, 0.229447575, 0.240126118, 0.246585424, 0.25304473, 0.263011351, 0.272977971, 0.283649723, 0.294321301, 0.304993174, 0.315665052, 0.326337359, 0.337009019, 0.352677248, 0.361519663, 0.370362078, 0.381038411, 0.391712234, 0.403003621, 0.413672245, 0.424340869, 0.430041507, 0.435742145, 0.446413419, 0.45708552, 0.467757287, 0.478429952, 0.489101139, 0.495868465, 0.502635792, 0.512543347, 0.522450902, 0.5331287, 0.543806945, 0.554484724, 0.56439215, 0.574299576, 0.581066916, 0.587834256, 0.598505429, 0.60917809, 0.619849863, 0.63052197, 0.641193252, 0.646893867, 0.652594483, 0.663262993, 0.673931502, 0.684719378, 0.69539681, 0.706070852, 0.72325738, 0.739426165, 0.750097519, 0.760769201, 0.771441421, 0.782113164, 0.792785707, 0.803455743, 0.813673144, 0.823890545, 0.830349968, 0.836809391, 0.847487966, 0.85816375, 0.865689926, 0.873216103, 0.877791873, 0.882367644, 0.886943414, 0.891519184, 0.896854416, 0.902189647, 0.90485764, 0.907525634, 0.910193627, 0.91286162, 0.915529656, 0.918197691, 0.919531708, 0.920865726, 0.922199744, 0.923533739, 0.923533739, 0.923533739, 0.923533739, 0.923533739], degree=4))
        make_face()
    extrude(amount=MAIN_PROFILE_DEPTH)

    # Sketch4 → Cut-Extrude1 (cut, through all)
    with BuildSketch(Plane.XY.offset(6.35)):
        Circle(SKETCH4_R)
        with Locations((-23.8125, 0)):
            Circle(SKETCH4_R_2)
        with Locations((-11.90625, 20.622229928)):
            Circle(SKETCH4_R_2)
        with Locations((11.90625, 20.622229928)):
            Circle(SKETCH4_R_2)
        with Locations((23.8125, 0)):
            Circle(SKETCH4_R_2)
        with Locations((11.90625, -20.622229928)):
            Circle(SKETCH4_R_2)
        with Locations((-11.90625, -20.622229928)):
            Circle(SKETCH4_R_2)
    extrude(amount=-CUT_EXTRUDE1_DEPTH, mode=Mode.SUBTRACT)


solid = part.part
